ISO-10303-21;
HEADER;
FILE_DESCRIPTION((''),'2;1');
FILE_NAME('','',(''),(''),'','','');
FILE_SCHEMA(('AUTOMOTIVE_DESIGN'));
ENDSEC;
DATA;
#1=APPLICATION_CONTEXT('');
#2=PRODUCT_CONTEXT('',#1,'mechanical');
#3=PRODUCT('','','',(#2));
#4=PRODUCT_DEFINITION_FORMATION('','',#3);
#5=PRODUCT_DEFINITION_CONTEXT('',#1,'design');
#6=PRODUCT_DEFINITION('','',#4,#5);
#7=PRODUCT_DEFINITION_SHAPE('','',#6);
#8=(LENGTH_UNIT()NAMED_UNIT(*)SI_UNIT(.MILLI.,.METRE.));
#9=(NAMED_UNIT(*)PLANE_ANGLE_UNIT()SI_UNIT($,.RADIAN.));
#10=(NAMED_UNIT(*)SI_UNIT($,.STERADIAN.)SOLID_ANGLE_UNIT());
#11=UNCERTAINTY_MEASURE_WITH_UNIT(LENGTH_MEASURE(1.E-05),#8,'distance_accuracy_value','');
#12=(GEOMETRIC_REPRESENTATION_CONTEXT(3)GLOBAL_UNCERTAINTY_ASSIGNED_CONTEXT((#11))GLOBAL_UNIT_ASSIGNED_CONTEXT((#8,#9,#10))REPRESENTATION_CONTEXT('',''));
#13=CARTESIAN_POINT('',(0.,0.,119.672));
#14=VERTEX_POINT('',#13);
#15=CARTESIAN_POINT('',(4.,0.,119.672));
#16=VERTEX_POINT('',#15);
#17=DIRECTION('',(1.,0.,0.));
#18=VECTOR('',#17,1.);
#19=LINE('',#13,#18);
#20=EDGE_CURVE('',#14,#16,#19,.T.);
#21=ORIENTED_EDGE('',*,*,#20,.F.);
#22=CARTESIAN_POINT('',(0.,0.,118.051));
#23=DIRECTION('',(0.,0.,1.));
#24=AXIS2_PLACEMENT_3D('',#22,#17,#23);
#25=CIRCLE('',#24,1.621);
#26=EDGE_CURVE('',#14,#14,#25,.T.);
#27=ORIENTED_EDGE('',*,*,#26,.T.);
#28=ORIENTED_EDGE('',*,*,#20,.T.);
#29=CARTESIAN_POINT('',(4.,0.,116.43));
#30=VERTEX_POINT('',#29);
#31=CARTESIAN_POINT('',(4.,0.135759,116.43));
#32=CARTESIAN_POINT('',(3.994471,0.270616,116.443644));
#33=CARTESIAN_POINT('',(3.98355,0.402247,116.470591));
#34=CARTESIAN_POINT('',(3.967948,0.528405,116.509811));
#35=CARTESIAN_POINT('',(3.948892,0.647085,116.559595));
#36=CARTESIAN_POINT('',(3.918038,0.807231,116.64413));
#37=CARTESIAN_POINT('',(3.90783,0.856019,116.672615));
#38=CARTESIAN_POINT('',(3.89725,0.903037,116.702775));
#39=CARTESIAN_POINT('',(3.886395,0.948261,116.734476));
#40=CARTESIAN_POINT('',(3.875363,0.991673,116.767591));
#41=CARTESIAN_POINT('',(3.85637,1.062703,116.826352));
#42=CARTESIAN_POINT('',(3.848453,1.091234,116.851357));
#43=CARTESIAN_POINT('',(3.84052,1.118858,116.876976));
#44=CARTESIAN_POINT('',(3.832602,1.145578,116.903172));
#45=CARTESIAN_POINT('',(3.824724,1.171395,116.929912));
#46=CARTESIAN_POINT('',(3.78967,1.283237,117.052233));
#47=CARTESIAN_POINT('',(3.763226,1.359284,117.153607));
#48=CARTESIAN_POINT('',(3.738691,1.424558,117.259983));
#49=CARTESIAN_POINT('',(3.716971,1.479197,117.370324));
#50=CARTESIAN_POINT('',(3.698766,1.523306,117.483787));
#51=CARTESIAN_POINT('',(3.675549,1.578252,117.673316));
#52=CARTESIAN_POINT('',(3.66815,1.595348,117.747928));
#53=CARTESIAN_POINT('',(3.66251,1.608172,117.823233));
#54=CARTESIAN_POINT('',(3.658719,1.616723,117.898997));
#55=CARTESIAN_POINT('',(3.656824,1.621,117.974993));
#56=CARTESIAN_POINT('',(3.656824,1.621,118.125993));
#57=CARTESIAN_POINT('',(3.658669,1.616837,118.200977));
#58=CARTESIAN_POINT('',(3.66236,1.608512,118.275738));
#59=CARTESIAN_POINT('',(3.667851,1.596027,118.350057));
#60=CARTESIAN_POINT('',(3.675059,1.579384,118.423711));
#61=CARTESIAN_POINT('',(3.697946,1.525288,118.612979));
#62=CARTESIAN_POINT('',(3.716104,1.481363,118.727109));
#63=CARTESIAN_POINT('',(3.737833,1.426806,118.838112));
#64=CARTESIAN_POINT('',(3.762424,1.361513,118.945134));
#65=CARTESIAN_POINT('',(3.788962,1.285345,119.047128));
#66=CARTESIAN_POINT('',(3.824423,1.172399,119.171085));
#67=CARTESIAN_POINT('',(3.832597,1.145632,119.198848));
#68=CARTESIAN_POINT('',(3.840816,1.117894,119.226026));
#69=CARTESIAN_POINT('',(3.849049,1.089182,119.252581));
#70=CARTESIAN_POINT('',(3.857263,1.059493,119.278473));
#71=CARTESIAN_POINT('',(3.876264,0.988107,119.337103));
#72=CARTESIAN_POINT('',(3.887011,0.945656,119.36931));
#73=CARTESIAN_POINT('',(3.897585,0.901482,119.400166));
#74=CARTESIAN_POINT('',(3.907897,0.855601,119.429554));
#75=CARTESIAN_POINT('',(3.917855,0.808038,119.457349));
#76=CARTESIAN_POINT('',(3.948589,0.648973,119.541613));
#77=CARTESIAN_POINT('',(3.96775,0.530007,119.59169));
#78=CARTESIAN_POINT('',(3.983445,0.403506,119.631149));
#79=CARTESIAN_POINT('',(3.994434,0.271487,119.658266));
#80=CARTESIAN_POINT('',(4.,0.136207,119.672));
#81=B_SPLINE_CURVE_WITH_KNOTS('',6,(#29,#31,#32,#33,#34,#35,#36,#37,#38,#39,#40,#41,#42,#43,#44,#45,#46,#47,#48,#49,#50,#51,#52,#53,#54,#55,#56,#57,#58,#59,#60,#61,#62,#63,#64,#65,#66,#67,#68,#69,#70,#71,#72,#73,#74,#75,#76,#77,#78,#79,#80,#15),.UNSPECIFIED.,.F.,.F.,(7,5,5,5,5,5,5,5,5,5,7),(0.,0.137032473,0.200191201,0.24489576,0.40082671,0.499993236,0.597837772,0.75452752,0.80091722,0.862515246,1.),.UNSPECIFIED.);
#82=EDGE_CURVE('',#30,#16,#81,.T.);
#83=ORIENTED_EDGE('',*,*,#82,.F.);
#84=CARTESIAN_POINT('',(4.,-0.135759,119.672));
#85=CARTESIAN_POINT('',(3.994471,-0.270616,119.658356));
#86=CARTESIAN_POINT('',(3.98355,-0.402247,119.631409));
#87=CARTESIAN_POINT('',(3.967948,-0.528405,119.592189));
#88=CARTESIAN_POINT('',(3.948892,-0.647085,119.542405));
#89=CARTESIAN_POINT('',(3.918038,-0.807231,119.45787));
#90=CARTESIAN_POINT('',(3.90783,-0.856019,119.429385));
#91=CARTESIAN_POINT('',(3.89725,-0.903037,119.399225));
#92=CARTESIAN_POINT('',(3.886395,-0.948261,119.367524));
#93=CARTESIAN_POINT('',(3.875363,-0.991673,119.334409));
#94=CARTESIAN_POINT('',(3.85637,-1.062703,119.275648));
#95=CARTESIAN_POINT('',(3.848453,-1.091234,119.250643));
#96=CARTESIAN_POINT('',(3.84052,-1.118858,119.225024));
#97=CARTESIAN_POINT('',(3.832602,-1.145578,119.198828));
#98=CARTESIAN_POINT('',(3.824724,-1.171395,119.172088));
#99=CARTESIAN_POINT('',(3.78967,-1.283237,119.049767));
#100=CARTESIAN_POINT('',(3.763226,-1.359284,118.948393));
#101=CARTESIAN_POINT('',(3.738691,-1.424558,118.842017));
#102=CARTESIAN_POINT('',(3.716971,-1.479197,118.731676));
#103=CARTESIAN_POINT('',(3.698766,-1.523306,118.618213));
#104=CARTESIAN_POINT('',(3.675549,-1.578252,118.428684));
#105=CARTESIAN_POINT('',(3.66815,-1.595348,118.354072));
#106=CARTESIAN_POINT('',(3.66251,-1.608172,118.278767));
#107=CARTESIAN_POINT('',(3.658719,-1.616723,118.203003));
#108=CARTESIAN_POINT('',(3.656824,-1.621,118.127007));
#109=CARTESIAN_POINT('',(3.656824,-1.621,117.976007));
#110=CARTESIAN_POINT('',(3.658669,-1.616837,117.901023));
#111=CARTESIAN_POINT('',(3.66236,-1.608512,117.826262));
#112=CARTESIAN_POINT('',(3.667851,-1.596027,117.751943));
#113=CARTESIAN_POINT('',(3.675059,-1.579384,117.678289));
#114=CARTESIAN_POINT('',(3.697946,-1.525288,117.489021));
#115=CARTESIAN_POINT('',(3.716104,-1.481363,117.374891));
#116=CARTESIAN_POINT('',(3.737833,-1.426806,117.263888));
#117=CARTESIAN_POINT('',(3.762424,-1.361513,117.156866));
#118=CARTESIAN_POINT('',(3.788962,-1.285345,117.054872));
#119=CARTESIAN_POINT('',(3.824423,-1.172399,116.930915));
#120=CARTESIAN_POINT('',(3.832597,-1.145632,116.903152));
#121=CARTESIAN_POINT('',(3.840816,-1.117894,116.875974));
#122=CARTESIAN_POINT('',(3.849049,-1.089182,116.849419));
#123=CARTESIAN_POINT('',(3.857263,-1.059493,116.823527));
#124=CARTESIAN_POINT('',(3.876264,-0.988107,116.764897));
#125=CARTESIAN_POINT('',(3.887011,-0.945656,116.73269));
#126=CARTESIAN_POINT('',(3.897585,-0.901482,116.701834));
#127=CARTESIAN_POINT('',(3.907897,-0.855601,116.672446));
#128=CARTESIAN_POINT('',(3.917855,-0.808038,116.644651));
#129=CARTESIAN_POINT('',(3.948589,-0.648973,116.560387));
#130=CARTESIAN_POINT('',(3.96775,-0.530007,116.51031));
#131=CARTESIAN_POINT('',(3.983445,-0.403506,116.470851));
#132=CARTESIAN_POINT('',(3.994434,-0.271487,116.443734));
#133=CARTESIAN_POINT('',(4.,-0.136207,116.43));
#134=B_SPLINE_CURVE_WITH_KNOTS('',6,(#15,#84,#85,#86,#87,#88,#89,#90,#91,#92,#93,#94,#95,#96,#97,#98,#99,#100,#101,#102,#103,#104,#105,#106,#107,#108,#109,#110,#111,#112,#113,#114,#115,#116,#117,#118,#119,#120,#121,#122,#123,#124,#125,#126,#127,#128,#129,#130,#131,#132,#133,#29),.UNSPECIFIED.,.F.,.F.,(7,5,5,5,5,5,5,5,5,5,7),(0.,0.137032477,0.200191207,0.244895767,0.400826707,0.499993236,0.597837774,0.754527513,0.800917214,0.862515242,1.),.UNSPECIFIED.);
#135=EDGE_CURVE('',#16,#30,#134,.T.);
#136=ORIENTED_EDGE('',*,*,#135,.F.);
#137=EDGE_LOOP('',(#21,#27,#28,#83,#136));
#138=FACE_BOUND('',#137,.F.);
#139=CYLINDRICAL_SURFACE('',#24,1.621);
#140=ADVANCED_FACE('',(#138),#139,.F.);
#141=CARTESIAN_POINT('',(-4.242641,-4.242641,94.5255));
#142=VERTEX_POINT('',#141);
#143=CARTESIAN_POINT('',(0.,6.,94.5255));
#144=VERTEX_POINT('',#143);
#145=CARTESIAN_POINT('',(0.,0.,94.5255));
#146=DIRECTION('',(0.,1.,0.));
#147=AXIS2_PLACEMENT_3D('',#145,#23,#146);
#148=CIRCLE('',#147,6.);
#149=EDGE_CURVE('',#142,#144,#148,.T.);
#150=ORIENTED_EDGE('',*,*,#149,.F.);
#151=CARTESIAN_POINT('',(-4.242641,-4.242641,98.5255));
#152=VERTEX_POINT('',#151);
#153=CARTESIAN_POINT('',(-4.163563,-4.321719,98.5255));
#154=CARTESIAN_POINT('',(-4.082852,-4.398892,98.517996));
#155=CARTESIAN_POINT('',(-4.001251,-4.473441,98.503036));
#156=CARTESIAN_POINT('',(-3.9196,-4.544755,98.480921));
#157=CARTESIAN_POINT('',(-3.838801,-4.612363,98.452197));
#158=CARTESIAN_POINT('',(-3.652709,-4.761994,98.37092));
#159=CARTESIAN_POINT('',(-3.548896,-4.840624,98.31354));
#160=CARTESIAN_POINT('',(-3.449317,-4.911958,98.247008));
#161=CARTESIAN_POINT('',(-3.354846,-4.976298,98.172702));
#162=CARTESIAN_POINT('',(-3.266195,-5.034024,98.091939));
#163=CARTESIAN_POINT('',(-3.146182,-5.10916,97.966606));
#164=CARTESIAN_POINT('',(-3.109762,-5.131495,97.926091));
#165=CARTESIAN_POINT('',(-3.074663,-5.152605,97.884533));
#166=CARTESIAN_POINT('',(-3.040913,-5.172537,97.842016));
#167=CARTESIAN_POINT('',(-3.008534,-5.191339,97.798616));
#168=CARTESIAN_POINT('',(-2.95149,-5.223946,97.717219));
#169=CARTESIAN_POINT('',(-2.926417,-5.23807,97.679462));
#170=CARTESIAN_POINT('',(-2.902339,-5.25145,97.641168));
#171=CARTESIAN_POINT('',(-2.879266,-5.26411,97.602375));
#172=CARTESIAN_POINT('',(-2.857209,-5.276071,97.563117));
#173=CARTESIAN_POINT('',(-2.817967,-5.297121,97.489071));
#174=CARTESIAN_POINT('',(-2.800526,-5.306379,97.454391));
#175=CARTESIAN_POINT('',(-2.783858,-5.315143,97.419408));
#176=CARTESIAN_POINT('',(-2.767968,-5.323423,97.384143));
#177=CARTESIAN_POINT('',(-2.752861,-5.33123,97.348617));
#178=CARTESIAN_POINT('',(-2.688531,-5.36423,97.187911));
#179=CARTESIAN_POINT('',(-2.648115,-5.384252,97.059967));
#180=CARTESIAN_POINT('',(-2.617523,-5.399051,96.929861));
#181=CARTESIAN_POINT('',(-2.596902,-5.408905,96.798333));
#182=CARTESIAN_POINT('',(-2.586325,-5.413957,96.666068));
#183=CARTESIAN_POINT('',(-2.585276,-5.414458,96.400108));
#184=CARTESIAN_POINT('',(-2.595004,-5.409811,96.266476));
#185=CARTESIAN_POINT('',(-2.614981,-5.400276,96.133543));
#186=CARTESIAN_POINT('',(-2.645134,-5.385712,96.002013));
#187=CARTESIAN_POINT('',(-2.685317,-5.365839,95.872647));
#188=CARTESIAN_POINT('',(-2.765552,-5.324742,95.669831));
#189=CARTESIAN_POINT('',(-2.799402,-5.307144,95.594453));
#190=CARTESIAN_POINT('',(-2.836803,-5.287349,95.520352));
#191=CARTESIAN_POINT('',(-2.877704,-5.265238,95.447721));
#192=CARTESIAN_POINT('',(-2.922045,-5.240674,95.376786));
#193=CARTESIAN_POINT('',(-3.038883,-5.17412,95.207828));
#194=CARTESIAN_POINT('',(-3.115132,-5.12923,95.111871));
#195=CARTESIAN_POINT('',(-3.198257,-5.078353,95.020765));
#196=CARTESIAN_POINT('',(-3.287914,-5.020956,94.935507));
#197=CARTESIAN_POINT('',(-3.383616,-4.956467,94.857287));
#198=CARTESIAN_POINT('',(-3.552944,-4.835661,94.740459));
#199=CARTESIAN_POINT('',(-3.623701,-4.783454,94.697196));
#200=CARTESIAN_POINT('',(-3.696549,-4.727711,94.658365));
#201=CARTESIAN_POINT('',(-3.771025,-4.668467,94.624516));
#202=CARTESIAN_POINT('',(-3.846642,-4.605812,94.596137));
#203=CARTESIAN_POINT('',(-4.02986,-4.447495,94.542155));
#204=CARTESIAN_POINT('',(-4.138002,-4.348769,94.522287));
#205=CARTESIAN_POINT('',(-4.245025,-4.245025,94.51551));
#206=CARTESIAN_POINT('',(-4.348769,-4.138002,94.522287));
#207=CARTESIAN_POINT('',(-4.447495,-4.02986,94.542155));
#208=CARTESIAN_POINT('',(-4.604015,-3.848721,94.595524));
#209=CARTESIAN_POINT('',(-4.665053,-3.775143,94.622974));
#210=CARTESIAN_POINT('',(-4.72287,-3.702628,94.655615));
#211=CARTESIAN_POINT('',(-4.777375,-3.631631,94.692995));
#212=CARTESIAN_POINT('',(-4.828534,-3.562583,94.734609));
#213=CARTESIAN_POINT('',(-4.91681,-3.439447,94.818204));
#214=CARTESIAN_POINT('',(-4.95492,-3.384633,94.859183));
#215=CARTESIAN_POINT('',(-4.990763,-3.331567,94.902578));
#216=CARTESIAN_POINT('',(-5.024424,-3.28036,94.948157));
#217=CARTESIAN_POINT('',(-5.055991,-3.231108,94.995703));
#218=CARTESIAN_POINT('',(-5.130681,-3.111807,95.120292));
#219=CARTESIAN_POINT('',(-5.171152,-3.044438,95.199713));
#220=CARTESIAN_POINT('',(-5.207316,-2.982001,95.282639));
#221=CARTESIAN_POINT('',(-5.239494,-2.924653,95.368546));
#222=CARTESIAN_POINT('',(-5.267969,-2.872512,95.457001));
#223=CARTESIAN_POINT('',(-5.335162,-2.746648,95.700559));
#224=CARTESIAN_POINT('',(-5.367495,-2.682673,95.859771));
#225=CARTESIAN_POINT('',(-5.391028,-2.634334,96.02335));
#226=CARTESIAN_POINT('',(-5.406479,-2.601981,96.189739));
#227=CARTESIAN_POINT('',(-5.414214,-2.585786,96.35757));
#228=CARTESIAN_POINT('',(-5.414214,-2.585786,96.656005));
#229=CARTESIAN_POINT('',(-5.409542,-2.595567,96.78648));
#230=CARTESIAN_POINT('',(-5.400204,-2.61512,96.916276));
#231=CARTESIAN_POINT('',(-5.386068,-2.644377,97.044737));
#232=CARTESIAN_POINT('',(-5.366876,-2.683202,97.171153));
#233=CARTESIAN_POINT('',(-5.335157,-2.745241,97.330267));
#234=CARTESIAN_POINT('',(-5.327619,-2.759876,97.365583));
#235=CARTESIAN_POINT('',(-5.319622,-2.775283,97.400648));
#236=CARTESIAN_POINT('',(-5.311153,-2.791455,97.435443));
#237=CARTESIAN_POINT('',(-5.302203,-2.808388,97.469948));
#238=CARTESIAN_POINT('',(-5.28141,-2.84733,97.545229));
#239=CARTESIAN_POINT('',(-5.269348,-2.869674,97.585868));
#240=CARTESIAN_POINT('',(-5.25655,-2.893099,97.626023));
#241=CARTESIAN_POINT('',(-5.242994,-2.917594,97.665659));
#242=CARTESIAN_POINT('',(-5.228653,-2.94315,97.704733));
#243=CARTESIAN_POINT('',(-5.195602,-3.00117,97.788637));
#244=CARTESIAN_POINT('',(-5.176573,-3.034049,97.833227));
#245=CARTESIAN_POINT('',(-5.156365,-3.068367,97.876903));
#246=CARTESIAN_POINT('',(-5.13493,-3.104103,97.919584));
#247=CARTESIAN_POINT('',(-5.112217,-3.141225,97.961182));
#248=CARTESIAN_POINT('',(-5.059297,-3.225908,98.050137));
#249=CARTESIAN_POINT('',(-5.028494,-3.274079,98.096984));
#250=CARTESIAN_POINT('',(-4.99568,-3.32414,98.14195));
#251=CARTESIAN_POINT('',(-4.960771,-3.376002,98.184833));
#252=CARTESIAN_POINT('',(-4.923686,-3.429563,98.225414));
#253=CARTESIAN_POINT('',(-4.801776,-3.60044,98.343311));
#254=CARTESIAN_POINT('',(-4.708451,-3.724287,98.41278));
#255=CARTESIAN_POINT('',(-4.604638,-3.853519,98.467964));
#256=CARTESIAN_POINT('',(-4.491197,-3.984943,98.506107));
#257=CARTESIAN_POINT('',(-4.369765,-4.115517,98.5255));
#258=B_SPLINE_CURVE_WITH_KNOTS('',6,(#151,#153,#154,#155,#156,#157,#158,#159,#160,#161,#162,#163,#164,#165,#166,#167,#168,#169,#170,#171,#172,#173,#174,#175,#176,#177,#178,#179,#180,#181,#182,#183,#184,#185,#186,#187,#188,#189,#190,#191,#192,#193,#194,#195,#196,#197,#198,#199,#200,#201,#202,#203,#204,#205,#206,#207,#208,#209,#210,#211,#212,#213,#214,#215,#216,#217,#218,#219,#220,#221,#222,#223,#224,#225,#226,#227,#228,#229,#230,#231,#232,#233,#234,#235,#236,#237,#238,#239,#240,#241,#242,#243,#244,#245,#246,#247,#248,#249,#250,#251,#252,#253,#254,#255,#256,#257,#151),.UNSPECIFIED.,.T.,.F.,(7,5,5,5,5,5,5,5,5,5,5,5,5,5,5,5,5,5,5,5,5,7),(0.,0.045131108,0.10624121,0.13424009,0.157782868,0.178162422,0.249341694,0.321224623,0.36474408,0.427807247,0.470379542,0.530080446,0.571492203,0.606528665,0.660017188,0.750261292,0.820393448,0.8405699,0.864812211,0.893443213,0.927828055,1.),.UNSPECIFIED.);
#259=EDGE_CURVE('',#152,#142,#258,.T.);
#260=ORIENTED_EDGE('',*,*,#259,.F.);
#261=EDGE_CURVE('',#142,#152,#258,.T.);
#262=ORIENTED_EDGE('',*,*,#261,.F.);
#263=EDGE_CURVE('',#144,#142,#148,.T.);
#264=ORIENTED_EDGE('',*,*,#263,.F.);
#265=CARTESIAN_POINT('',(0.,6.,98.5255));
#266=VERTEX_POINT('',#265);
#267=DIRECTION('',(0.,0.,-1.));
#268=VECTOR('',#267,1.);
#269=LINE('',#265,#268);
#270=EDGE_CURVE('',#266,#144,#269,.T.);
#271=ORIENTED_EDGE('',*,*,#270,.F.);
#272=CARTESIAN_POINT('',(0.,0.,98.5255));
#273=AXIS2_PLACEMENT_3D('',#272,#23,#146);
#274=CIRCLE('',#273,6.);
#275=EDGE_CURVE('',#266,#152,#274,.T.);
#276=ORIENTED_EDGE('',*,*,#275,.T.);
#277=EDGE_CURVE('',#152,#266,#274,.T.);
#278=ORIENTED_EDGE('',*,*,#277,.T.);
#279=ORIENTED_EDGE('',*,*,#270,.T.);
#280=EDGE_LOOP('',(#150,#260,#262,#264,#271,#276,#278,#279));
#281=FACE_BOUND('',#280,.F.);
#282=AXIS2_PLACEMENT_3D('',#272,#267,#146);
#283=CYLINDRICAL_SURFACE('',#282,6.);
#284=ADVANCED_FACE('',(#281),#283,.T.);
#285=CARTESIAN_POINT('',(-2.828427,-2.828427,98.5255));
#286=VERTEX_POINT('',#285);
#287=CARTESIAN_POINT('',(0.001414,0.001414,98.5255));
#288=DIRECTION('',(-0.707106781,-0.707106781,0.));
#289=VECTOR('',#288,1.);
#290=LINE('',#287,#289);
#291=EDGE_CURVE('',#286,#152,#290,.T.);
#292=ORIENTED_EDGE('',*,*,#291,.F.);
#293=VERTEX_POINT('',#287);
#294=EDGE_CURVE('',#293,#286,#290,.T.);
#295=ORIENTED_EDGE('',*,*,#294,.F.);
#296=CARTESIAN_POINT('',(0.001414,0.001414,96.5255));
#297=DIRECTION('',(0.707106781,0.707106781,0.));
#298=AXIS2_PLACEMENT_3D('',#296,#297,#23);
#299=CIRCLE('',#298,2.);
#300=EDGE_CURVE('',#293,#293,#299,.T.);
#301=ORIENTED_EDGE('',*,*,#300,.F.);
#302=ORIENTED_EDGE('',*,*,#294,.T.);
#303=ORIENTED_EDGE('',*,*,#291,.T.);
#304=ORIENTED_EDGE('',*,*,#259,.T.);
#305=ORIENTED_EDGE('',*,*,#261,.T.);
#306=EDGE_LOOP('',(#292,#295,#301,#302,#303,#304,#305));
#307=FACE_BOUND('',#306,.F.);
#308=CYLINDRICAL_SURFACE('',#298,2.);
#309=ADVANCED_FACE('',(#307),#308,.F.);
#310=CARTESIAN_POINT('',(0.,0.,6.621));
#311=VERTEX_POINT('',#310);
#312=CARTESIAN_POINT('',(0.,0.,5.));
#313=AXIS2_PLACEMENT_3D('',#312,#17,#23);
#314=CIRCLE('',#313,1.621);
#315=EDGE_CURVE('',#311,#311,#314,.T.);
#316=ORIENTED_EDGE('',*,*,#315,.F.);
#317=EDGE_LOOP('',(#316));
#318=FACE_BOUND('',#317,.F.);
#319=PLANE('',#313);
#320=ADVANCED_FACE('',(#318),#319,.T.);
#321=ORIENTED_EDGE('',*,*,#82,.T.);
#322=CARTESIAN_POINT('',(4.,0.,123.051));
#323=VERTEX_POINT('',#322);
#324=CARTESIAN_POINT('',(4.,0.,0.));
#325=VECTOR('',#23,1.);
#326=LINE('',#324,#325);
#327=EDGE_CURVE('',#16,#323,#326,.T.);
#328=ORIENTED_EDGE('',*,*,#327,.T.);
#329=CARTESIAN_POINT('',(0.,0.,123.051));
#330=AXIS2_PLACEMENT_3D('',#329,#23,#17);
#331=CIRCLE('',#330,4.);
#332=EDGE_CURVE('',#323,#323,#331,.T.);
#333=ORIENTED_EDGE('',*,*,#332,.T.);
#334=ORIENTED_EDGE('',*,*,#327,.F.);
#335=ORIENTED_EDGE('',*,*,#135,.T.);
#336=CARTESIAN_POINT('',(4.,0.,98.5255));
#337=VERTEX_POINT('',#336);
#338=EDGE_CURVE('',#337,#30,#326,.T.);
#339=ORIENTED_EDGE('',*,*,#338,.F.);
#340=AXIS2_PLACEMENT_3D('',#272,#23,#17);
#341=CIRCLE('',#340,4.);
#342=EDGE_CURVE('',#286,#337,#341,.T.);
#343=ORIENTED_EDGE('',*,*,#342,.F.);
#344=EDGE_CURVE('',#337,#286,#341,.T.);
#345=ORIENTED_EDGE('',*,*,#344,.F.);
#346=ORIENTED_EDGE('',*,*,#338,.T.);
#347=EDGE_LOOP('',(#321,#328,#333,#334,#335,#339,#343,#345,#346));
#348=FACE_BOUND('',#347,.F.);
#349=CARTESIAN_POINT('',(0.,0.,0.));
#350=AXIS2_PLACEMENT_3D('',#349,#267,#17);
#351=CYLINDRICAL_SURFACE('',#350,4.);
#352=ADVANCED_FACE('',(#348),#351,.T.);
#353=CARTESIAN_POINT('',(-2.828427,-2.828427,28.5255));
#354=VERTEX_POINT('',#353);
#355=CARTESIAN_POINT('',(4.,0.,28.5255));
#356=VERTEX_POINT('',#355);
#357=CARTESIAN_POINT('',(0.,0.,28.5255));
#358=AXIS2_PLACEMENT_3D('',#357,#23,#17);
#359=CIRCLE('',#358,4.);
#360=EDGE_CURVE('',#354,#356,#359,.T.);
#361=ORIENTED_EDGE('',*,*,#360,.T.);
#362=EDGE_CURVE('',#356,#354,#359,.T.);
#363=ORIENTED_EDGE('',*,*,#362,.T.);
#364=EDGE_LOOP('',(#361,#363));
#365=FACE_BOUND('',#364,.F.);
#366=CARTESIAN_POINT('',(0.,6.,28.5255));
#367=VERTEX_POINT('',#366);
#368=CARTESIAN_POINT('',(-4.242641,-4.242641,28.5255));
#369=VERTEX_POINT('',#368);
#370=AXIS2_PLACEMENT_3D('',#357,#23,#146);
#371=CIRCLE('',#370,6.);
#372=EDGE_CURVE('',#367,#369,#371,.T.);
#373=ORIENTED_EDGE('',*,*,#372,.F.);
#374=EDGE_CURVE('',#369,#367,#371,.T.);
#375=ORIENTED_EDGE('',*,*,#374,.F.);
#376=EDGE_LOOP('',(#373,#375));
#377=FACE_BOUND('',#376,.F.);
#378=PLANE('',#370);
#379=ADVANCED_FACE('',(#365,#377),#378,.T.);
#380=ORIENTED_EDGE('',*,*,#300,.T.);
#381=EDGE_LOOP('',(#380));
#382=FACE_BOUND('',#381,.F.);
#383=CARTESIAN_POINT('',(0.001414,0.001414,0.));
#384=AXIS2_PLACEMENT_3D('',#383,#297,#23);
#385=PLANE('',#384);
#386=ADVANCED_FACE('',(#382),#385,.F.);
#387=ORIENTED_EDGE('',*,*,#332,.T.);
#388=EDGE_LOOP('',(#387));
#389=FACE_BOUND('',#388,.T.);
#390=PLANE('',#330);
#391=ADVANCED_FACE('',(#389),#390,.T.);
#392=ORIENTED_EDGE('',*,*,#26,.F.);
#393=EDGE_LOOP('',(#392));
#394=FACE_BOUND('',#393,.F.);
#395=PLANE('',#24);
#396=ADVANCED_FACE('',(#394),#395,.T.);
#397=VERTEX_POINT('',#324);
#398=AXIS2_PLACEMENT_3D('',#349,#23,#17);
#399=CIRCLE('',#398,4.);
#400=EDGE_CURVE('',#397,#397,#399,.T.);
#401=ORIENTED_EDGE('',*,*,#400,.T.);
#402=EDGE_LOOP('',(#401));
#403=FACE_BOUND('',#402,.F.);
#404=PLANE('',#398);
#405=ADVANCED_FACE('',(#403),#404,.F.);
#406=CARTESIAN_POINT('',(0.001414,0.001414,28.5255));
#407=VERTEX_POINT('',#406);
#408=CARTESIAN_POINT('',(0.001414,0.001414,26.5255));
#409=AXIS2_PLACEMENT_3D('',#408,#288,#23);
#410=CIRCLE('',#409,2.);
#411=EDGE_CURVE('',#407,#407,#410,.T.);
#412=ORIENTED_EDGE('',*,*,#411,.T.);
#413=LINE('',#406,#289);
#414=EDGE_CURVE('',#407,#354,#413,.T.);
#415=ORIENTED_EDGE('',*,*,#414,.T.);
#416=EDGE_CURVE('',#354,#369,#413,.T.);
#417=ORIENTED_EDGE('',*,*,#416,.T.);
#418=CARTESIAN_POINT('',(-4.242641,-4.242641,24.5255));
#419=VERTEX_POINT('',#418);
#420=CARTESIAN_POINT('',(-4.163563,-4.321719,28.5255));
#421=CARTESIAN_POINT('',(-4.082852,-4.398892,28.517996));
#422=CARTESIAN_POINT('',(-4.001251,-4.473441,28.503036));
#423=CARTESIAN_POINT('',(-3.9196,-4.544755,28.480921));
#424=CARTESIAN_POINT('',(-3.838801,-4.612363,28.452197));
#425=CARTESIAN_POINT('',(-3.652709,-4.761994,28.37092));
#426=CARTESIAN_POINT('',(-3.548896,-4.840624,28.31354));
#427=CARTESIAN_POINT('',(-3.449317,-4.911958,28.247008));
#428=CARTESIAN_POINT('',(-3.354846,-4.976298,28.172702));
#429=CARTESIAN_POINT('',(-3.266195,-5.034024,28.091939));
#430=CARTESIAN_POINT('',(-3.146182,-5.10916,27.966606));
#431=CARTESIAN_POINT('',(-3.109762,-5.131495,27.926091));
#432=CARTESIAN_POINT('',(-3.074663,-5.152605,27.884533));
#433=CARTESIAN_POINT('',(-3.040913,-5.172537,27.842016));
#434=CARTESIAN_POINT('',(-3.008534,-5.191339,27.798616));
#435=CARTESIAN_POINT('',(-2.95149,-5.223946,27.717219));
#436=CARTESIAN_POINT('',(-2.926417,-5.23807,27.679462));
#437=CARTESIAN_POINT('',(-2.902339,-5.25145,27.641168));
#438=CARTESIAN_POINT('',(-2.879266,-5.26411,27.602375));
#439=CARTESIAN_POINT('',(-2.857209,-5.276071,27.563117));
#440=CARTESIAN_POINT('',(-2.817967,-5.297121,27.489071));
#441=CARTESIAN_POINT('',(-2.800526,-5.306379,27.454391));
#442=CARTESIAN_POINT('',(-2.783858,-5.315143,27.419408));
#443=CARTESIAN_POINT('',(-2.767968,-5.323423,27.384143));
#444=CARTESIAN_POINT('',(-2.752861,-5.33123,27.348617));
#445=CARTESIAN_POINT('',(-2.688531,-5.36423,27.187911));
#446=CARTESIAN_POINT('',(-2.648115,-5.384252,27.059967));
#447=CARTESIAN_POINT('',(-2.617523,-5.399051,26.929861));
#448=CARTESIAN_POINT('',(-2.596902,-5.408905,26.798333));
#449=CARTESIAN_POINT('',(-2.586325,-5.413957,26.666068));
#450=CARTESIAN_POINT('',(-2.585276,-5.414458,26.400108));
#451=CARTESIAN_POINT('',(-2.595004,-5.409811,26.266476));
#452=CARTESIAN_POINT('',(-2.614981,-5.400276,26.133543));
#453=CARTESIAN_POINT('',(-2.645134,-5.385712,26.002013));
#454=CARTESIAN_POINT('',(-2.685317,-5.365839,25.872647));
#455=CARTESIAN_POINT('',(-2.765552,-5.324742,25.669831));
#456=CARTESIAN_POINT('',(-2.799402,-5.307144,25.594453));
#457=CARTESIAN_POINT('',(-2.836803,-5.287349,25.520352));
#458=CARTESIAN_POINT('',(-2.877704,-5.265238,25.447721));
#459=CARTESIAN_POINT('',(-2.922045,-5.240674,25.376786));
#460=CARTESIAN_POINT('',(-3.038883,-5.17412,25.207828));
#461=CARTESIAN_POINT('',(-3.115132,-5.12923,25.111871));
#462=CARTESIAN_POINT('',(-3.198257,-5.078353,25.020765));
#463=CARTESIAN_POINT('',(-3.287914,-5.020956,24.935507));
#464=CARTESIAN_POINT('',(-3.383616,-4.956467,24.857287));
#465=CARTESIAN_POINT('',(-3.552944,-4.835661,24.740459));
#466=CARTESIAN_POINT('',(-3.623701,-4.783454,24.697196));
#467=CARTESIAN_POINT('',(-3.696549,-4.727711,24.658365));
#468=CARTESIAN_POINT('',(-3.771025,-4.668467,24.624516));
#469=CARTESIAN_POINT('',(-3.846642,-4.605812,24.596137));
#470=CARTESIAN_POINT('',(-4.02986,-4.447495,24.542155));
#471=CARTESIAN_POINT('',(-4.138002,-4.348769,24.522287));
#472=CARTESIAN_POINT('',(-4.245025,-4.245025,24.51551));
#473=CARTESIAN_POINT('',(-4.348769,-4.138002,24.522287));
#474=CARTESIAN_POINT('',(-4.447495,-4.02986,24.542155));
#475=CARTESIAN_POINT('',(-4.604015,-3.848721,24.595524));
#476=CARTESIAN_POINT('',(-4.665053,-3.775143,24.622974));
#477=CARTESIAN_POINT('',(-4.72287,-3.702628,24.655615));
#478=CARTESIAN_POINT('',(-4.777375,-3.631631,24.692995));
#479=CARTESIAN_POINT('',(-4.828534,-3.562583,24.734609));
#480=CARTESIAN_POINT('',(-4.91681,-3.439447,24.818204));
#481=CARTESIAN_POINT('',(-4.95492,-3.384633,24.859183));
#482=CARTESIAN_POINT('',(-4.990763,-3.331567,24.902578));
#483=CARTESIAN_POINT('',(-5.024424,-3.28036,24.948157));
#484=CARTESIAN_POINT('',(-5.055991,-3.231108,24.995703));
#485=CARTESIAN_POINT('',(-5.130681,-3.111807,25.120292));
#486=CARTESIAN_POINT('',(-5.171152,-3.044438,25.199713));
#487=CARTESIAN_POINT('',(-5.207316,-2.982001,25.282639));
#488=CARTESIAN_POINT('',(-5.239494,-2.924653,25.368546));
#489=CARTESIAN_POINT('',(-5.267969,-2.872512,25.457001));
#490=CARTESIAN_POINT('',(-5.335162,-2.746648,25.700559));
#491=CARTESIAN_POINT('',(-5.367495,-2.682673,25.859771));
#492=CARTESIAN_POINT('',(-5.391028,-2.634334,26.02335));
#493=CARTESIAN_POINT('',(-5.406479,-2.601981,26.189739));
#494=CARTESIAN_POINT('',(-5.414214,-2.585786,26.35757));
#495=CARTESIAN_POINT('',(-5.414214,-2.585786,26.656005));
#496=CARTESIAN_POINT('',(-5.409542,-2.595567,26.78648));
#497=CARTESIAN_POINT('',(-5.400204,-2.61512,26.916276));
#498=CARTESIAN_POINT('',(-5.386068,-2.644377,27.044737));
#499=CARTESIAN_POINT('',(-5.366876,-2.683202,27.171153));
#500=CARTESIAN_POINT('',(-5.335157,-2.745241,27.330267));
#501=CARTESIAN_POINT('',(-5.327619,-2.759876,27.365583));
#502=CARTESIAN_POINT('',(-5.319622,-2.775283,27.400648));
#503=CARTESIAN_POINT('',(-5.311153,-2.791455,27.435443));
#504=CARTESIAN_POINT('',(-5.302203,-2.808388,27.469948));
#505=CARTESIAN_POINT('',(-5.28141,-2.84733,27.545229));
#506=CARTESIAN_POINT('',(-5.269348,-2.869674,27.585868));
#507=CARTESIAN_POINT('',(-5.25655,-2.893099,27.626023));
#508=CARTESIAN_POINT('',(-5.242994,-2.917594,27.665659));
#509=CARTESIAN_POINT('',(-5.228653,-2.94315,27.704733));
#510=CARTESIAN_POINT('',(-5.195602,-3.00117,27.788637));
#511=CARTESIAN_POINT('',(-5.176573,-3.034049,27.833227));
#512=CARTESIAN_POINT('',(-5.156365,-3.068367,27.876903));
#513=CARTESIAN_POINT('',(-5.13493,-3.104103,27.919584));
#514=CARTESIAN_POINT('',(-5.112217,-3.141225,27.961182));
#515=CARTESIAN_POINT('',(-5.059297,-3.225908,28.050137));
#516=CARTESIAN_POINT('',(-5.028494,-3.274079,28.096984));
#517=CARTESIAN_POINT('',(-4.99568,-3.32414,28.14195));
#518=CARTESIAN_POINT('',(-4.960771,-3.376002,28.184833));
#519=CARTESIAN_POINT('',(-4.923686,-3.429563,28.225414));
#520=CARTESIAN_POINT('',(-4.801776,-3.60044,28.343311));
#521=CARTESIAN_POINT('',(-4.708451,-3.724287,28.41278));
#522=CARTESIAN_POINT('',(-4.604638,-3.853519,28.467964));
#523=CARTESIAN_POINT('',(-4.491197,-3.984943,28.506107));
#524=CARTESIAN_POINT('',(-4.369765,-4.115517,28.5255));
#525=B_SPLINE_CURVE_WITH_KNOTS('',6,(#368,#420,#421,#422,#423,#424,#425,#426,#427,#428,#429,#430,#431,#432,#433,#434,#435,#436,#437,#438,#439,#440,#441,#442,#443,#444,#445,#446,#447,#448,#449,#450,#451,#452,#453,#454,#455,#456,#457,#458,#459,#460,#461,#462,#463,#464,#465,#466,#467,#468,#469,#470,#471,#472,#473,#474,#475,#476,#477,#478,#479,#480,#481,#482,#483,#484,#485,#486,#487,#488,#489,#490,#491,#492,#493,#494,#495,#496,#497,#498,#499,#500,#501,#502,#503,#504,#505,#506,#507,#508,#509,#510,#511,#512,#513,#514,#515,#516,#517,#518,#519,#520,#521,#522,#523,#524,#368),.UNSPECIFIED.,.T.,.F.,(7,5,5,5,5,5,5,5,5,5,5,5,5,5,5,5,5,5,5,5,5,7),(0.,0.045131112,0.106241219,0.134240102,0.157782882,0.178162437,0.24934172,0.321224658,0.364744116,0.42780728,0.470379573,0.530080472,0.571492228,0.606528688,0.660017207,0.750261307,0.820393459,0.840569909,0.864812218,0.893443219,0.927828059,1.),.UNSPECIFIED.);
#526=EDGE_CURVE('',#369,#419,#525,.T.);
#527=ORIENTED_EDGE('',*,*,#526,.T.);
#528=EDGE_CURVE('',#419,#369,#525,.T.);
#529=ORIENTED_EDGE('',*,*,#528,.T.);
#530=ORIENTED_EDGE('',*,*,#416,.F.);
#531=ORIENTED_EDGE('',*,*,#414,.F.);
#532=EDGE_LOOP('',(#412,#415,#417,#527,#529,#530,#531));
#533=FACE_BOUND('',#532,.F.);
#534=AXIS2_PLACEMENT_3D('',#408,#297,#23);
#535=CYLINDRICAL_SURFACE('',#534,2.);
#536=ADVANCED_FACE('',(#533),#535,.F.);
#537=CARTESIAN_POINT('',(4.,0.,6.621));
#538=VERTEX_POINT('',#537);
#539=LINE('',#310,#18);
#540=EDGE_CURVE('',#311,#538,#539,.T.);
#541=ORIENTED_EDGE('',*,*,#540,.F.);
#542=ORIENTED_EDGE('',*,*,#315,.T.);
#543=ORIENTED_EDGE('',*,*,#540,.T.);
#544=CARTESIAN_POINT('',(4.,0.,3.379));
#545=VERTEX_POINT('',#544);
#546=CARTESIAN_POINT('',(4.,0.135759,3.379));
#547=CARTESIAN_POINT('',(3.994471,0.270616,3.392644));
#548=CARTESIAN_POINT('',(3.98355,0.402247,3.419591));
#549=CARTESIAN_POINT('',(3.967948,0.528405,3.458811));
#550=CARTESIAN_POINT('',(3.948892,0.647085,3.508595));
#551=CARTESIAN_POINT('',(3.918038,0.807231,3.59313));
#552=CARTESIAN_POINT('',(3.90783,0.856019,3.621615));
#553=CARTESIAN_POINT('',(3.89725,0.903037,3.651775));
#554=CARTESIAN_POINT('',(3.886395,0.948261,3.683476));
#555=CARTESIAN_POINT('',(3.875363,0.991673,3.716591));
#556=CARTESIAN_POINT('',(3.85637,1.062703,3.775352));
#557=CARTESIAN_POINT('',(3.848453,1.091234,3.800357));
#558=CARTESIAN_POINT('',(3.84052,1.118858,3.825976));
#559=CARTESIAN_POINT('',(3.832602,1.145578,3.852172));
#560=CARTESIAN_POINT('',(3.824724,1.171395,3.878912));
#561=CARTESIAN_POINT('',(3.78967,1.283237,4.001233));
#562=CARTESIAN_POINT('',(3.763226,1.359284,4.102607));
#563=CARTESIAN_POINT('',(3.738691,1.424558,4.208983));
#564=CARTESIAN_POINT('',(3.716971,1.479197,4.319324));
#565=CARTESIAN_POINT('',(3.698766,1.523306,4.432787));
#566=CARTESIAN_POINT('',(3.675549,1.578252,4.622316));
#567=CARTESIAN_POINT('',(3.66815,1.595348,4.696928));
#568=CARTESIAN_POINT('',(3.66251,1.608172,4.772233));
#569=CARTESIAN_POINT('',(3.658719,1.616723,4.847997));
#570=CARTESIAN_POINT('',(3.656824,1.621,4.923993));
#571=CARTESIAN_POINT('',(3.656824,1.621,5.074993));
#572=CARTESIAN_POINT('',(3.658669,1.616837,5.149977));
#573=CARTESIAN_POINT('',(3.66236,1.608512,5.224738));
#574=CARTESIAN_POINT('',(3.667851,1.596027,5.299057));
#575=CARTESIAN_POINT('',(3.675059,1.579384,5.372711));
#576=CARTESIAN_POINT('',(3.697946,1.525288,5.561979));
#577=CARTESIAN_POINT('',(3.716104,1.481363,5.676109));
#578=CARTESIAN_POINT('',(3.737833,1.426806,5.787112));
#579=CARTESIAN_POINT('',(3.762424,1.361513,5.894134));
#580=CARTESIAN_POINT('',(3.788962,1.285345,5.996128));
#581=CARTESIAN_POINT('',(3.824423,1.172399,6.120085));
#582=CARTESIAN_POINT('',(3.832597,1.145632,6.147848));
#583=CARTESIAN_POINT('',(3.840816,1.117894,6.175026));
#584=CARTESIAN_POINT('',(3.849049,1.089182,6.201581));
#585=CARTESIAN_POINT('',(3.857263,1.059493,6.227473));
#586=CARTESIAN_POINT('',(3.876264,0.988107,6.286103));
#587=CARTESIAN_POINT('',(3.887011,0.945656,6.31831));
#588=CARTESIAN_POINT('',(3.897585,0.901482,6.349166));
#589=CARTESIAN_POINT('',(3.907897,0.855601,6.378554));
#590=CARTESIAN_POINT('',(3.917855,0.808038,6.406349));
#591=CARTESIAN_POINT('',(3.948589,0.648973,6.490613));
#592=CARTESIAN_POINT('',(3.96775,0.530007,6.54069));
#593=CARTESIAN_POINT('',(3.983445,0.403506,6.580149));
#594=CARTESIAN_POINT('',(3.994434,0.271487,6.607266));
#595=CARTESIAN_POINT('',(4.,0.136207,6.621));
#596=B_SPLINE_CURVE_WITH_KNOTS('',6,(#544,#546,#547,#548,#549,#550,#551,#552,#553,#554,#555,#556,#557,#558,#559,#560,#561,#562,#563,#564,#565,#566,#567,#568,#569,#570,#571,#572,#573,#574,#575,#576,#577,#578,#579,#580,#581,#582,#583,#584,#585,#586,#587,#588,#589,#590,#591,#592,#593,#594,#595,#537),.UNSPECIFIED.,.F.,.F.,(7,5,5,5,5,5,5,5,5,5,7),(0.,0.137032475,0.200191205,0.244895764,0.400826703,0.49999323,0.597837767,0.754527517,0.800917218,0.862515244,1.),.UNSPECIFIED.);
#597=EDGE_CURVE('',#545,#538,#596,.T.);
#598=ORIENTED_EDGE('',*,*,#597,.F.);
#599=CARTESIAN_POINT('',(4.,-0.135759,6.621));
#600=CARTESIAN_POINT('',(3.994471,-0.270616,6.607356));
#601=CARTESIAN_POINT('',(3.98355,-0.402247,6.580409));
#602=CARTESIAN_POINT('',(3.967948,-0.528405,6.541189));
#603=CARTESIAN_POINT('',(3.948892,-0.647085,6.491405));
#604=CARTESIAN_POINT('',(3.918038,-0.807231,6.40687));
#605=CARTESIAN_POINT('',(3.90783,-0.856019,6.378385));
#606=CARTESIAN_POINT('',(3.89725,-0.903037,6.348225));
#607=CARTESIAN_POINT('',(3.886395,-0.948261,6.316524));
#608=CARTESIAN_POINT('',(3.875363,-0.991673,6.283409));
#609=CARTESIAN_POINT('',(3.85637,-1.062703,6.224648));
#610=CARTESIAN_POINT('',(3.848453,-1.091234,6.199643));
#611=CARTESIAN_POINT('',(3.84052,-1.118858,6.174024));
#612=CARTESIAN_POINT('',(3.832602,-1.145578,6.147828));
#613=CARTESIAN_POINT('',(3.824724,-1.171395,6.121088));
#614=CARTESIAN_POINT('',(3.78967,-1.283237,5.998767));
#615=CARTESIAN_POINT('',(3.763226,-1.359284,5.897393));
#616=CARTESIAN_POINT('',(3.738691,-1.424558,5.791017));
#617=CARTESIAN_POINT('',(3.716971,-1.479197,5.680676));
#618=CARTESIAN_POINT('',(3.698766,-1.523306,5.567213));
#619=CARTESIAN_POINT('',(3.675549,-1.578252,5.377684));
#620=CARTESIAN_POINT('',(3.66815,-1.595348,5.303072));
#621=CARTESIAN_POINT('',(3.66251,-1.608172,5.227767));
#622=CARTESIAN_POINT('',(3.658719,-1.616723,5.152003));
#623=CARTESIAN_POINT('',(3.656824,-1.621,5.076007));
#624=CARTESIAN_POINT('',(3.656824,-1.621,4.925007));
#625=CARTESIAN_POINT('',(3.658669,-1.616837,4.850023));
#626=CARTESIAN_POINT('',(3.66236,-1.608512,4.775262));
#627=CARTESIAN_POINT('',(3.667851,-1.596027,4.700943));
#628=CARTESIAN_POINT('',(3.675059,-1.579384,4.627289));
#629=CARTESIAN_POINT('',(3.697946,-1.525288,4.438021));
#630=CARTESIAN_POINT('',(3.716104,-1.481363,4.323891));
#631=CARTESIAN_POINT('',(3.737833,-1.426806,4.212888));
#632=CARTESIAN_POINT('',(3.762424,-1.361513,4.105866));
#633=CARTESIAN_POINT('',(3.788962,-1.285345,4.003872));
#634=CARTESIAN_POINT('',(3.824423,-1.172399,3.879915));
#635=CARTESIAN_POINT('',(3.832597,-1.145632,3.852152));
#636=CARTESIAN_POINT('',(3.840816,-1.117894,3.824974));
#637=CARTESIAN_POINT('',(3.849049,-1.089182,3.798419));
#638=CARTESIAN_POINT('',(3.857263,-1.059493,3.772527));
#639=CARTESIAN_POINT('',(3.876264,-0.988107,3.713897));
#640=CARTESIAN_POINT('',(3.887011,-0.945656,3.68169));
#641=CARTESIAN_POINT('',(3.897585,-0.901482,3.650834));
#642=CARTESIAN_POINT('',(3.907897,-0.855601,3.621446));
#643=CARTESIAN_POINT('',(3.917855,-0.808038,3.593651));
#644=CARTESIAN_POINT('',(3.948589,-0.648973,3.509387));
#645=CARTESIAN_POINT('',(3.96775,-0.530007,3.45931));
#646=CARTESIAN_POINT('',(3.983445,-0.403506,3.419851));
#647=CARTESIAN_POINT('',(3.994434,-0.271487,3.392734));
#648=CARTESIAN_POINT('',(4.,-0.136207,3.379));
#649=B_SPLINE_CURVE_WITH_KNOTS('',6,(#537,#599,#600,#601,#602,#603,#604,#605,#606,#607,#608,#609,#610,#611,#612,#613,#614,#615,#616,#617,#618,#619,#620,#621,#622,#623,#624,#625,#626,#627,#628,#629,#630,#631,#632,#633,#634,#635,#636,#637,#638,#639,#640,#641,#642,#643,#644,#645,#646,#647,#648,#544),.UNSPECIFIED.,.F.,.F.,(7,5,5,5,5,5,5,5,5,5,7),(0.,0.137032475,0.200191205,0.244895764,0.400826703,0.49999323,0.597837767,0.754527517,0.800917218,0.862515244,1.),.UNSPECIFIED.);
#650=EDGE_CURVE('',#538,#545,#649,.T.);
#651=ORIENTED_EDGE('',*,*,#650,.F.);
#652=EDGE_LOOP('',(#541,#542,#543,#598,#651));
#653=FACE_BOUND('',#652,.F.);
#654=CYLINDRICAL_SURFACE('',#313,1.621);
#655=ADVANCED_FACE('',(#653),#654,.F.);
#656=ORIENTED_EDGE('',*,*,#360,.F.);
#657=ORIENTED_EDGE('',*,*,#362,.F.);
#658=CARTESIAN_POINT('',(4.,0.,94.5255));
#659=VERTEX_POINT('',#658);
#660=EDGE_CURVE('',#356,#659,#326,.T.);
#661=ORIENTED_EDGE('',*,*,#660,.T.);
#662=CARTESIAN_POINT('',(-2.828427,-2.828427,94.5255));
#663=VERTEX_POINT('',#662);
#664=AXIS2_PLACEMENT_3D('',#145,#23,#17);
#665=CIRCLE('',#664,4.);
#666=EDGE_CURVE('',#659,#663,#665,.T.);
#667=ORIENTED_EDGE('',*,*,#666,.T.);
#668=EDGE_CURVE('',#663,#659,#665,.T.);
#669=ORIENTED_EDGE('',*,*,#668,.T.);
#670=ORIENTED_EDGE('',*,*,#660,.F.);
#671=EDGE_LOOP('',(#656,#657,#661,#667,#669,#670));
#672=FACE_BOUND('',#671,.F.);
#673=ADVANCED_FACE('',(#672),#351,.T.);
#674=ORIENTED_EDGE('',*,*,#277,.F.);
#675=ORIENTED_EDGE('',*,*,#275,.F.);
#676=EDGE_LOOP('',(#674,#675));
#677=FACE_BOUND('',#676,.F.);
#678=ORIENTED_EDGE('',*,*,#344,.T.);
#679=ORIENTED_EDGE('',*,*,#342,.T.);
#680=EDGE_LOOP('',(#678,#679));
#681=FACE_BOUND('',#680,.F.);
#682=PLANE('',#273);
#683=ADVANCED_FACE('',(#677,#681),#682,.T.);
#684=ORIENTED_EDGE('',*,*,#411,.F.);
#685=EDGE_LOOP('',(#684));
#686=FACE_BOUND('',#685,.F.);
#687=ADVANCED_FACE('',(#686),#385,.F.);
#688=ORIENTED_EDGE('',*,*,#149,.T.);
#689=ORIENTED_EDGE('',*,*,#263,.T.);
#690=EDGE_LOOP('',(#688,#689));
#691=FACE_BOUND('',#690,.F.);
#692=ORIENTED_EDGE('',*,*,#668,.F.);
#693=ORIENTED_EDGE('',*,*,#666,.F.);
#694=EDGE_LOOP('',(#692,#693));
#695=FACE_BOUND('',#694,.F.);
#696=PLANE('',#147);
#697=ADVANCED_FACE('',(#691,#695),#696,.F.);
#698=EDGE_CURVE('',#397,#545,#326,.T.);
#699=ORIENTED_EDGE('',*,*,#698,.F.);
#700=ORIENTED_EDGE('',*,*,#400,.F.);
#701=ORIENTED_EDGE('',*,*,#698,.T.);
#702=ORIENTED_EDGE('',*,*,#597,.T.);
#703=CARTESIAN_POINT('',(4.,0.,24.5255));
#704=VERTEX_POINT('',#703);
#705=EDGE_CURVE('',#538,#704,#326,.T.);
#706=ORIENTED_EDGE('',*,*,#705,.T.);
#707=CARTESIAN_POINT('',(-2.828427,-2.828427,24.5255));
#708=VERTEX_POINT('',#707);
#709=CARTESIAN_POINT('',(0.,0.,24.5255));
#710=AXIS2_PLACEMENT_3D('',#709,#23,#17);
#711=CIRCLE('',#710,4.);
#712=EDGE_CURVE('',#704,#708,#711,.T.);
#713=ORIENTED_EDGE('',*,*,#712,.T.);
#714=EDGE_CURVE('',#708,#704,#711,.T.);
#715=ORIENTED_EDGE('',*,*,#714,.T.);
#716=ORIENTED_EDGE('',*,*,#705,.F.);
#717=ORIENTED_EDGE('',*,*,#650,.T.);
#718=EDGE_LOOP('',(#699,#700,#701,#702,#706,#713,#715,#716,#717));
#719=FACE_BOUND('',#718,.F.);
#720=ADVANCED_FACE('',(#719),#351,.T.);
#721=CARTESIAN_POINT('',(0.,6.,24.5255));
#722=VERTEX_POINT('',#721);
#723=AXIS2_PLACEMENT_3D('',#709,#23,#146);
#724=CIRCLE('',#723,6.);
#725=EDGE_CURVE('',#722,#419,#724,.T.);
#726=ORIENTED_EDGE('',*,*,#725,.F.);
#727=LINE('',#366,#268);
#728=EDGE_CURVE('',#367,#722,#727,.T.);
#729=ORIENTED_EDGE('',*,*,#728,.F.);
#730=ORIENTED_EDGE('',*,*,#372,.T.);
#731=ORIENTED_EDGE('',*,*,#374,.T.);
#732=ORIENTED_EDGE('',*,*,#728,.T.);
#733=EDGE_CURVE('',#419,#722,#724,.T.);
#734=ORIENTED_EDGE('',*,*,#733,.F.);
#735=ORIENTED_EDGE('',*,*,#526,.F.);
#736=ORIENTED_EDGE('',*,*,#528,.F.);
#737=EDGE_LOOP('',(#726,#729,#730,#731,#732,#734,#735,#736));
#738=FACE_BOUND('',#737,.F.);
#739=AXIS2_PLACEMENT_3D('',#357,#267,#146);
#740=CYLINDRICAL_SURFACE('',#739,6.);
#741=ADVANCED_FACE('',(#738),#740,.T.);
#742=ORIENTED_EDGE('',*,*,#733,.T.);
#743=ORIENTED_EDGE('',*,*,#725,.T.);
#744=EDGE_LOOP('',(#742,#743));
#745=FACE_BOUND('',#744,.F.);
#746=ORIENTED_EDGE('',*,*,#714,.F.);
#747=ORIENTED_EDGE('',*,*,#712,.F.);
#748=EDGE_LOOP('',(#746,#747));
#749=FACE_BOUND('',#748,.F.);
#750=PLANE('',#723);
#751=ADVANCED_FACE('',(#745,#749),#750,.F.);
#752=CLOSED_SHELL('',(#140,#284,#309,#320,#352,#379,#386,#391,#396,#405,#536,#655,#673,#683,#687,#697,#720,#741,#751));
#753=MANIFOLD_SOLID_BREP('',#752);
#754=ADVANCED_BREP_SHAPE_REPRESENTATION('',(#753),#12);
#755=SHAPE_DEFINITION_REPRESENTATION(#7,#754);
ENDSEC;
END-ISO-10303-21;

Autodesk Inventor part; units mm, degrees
ref_plane "YZ Plane" through (0, 0, 0) normal (1, 0, 0) x (0, 1, 0)
ref_plane "XY Plane" through (0, 0, 0) normal (0, 0, 1) x (1, 0, 0)
sketch "Sketch1" plane through (0, 0, 0) normal (0, 0, 1) x (1, 0, 0)
  circle A0 centre (0, 0) radius 4
  dimension "d0" = 8
extrude "Extrusion1" add sketch "Sketch1" along normal blind 123.051
sketch "Sketch3" plane through (0, 0, 0) normal (1, 0, 0) x (0, 1, 0)
  line L0 (4, 123.051) -> (-4, 123.051) projected
  point P0 (0, 0)
  point P1 (0, 5)
  point P2 (0, 118.051)
  dimension "d14" = 5
  dimension "d15" = 5
  dimension "d16" = 113.051
hole "Hole2" at (0, 0, 5) at (0, 0, 118.051) direction (1, 0, 0) diameter 3.242 depth 11.8 thread size "M4x0.7" class "6H" standard "ISO Metric profile"
sketch "Sketch4" plane through (0, 0, 0) normal (1, 0, 0) x (0, 1, 0)
  line L0 (4, 0) -> (4, 123.051) projected
  line L1 (4, 98.5255) -> (6, 98.5255)
  line L2 (6, 98.5255) -> (6, 94.5255)
  line L3 (6, 94.5255) -> (4, 94.5255)
  line L4 (4, 28.5255) -> (6, 28.5255)
  line L5 (6, 28.5255) -> (6, 24.5255)
  line L6 (6, 24.5255) -> (4, 24.5255)
  line L7 (4, 98.5255) -> (4, 94.5255)
  line L8 (4, 28.5255) -> (4, 24.5255)
  line L9 (0, -24.6102) -> (0, 147.6612) projected
  point P0 (0, 0)
  point P1 (5, 28.5255)
  point P2 (5, 94.5255)
  dimension "d24" = 66
  dimension "d25" = 4
  dimension "d26" = 4
  dimension "d27" = 24.5255
  dimension "d28" = 2
  dimension "d29" = 2
revolve "Revolution1" add sketch "Sketch4" angle 360 about axis through (0, 0, -10) along (0, 0, 1)
ref_plane "Work Plane1" through (0, 0, 0) normal (0.7071, 0.7071, 0) x (0, 0, 1)
sketch "Sketch5" plane through (0, 0, 0) normal (0.7071, 0.7071, 0) x (0, 0, 1)
  circle A0 centre (26.5255, 0) radius 2
  circle A1 centre (96.5255, 0) radius 2
  line L0 (98.5255, -4) -> (98.5255, 4) projected
  line L1 (24.5255, 4) -> (24.5255, -4) projected
  point P0 (0, 0)
  dimension "d32" = 4
  dimension "d33" = 4
extrude "Extrusion2" cut sketch "Sketch5" against normal blind 10
properties part number "as1"
